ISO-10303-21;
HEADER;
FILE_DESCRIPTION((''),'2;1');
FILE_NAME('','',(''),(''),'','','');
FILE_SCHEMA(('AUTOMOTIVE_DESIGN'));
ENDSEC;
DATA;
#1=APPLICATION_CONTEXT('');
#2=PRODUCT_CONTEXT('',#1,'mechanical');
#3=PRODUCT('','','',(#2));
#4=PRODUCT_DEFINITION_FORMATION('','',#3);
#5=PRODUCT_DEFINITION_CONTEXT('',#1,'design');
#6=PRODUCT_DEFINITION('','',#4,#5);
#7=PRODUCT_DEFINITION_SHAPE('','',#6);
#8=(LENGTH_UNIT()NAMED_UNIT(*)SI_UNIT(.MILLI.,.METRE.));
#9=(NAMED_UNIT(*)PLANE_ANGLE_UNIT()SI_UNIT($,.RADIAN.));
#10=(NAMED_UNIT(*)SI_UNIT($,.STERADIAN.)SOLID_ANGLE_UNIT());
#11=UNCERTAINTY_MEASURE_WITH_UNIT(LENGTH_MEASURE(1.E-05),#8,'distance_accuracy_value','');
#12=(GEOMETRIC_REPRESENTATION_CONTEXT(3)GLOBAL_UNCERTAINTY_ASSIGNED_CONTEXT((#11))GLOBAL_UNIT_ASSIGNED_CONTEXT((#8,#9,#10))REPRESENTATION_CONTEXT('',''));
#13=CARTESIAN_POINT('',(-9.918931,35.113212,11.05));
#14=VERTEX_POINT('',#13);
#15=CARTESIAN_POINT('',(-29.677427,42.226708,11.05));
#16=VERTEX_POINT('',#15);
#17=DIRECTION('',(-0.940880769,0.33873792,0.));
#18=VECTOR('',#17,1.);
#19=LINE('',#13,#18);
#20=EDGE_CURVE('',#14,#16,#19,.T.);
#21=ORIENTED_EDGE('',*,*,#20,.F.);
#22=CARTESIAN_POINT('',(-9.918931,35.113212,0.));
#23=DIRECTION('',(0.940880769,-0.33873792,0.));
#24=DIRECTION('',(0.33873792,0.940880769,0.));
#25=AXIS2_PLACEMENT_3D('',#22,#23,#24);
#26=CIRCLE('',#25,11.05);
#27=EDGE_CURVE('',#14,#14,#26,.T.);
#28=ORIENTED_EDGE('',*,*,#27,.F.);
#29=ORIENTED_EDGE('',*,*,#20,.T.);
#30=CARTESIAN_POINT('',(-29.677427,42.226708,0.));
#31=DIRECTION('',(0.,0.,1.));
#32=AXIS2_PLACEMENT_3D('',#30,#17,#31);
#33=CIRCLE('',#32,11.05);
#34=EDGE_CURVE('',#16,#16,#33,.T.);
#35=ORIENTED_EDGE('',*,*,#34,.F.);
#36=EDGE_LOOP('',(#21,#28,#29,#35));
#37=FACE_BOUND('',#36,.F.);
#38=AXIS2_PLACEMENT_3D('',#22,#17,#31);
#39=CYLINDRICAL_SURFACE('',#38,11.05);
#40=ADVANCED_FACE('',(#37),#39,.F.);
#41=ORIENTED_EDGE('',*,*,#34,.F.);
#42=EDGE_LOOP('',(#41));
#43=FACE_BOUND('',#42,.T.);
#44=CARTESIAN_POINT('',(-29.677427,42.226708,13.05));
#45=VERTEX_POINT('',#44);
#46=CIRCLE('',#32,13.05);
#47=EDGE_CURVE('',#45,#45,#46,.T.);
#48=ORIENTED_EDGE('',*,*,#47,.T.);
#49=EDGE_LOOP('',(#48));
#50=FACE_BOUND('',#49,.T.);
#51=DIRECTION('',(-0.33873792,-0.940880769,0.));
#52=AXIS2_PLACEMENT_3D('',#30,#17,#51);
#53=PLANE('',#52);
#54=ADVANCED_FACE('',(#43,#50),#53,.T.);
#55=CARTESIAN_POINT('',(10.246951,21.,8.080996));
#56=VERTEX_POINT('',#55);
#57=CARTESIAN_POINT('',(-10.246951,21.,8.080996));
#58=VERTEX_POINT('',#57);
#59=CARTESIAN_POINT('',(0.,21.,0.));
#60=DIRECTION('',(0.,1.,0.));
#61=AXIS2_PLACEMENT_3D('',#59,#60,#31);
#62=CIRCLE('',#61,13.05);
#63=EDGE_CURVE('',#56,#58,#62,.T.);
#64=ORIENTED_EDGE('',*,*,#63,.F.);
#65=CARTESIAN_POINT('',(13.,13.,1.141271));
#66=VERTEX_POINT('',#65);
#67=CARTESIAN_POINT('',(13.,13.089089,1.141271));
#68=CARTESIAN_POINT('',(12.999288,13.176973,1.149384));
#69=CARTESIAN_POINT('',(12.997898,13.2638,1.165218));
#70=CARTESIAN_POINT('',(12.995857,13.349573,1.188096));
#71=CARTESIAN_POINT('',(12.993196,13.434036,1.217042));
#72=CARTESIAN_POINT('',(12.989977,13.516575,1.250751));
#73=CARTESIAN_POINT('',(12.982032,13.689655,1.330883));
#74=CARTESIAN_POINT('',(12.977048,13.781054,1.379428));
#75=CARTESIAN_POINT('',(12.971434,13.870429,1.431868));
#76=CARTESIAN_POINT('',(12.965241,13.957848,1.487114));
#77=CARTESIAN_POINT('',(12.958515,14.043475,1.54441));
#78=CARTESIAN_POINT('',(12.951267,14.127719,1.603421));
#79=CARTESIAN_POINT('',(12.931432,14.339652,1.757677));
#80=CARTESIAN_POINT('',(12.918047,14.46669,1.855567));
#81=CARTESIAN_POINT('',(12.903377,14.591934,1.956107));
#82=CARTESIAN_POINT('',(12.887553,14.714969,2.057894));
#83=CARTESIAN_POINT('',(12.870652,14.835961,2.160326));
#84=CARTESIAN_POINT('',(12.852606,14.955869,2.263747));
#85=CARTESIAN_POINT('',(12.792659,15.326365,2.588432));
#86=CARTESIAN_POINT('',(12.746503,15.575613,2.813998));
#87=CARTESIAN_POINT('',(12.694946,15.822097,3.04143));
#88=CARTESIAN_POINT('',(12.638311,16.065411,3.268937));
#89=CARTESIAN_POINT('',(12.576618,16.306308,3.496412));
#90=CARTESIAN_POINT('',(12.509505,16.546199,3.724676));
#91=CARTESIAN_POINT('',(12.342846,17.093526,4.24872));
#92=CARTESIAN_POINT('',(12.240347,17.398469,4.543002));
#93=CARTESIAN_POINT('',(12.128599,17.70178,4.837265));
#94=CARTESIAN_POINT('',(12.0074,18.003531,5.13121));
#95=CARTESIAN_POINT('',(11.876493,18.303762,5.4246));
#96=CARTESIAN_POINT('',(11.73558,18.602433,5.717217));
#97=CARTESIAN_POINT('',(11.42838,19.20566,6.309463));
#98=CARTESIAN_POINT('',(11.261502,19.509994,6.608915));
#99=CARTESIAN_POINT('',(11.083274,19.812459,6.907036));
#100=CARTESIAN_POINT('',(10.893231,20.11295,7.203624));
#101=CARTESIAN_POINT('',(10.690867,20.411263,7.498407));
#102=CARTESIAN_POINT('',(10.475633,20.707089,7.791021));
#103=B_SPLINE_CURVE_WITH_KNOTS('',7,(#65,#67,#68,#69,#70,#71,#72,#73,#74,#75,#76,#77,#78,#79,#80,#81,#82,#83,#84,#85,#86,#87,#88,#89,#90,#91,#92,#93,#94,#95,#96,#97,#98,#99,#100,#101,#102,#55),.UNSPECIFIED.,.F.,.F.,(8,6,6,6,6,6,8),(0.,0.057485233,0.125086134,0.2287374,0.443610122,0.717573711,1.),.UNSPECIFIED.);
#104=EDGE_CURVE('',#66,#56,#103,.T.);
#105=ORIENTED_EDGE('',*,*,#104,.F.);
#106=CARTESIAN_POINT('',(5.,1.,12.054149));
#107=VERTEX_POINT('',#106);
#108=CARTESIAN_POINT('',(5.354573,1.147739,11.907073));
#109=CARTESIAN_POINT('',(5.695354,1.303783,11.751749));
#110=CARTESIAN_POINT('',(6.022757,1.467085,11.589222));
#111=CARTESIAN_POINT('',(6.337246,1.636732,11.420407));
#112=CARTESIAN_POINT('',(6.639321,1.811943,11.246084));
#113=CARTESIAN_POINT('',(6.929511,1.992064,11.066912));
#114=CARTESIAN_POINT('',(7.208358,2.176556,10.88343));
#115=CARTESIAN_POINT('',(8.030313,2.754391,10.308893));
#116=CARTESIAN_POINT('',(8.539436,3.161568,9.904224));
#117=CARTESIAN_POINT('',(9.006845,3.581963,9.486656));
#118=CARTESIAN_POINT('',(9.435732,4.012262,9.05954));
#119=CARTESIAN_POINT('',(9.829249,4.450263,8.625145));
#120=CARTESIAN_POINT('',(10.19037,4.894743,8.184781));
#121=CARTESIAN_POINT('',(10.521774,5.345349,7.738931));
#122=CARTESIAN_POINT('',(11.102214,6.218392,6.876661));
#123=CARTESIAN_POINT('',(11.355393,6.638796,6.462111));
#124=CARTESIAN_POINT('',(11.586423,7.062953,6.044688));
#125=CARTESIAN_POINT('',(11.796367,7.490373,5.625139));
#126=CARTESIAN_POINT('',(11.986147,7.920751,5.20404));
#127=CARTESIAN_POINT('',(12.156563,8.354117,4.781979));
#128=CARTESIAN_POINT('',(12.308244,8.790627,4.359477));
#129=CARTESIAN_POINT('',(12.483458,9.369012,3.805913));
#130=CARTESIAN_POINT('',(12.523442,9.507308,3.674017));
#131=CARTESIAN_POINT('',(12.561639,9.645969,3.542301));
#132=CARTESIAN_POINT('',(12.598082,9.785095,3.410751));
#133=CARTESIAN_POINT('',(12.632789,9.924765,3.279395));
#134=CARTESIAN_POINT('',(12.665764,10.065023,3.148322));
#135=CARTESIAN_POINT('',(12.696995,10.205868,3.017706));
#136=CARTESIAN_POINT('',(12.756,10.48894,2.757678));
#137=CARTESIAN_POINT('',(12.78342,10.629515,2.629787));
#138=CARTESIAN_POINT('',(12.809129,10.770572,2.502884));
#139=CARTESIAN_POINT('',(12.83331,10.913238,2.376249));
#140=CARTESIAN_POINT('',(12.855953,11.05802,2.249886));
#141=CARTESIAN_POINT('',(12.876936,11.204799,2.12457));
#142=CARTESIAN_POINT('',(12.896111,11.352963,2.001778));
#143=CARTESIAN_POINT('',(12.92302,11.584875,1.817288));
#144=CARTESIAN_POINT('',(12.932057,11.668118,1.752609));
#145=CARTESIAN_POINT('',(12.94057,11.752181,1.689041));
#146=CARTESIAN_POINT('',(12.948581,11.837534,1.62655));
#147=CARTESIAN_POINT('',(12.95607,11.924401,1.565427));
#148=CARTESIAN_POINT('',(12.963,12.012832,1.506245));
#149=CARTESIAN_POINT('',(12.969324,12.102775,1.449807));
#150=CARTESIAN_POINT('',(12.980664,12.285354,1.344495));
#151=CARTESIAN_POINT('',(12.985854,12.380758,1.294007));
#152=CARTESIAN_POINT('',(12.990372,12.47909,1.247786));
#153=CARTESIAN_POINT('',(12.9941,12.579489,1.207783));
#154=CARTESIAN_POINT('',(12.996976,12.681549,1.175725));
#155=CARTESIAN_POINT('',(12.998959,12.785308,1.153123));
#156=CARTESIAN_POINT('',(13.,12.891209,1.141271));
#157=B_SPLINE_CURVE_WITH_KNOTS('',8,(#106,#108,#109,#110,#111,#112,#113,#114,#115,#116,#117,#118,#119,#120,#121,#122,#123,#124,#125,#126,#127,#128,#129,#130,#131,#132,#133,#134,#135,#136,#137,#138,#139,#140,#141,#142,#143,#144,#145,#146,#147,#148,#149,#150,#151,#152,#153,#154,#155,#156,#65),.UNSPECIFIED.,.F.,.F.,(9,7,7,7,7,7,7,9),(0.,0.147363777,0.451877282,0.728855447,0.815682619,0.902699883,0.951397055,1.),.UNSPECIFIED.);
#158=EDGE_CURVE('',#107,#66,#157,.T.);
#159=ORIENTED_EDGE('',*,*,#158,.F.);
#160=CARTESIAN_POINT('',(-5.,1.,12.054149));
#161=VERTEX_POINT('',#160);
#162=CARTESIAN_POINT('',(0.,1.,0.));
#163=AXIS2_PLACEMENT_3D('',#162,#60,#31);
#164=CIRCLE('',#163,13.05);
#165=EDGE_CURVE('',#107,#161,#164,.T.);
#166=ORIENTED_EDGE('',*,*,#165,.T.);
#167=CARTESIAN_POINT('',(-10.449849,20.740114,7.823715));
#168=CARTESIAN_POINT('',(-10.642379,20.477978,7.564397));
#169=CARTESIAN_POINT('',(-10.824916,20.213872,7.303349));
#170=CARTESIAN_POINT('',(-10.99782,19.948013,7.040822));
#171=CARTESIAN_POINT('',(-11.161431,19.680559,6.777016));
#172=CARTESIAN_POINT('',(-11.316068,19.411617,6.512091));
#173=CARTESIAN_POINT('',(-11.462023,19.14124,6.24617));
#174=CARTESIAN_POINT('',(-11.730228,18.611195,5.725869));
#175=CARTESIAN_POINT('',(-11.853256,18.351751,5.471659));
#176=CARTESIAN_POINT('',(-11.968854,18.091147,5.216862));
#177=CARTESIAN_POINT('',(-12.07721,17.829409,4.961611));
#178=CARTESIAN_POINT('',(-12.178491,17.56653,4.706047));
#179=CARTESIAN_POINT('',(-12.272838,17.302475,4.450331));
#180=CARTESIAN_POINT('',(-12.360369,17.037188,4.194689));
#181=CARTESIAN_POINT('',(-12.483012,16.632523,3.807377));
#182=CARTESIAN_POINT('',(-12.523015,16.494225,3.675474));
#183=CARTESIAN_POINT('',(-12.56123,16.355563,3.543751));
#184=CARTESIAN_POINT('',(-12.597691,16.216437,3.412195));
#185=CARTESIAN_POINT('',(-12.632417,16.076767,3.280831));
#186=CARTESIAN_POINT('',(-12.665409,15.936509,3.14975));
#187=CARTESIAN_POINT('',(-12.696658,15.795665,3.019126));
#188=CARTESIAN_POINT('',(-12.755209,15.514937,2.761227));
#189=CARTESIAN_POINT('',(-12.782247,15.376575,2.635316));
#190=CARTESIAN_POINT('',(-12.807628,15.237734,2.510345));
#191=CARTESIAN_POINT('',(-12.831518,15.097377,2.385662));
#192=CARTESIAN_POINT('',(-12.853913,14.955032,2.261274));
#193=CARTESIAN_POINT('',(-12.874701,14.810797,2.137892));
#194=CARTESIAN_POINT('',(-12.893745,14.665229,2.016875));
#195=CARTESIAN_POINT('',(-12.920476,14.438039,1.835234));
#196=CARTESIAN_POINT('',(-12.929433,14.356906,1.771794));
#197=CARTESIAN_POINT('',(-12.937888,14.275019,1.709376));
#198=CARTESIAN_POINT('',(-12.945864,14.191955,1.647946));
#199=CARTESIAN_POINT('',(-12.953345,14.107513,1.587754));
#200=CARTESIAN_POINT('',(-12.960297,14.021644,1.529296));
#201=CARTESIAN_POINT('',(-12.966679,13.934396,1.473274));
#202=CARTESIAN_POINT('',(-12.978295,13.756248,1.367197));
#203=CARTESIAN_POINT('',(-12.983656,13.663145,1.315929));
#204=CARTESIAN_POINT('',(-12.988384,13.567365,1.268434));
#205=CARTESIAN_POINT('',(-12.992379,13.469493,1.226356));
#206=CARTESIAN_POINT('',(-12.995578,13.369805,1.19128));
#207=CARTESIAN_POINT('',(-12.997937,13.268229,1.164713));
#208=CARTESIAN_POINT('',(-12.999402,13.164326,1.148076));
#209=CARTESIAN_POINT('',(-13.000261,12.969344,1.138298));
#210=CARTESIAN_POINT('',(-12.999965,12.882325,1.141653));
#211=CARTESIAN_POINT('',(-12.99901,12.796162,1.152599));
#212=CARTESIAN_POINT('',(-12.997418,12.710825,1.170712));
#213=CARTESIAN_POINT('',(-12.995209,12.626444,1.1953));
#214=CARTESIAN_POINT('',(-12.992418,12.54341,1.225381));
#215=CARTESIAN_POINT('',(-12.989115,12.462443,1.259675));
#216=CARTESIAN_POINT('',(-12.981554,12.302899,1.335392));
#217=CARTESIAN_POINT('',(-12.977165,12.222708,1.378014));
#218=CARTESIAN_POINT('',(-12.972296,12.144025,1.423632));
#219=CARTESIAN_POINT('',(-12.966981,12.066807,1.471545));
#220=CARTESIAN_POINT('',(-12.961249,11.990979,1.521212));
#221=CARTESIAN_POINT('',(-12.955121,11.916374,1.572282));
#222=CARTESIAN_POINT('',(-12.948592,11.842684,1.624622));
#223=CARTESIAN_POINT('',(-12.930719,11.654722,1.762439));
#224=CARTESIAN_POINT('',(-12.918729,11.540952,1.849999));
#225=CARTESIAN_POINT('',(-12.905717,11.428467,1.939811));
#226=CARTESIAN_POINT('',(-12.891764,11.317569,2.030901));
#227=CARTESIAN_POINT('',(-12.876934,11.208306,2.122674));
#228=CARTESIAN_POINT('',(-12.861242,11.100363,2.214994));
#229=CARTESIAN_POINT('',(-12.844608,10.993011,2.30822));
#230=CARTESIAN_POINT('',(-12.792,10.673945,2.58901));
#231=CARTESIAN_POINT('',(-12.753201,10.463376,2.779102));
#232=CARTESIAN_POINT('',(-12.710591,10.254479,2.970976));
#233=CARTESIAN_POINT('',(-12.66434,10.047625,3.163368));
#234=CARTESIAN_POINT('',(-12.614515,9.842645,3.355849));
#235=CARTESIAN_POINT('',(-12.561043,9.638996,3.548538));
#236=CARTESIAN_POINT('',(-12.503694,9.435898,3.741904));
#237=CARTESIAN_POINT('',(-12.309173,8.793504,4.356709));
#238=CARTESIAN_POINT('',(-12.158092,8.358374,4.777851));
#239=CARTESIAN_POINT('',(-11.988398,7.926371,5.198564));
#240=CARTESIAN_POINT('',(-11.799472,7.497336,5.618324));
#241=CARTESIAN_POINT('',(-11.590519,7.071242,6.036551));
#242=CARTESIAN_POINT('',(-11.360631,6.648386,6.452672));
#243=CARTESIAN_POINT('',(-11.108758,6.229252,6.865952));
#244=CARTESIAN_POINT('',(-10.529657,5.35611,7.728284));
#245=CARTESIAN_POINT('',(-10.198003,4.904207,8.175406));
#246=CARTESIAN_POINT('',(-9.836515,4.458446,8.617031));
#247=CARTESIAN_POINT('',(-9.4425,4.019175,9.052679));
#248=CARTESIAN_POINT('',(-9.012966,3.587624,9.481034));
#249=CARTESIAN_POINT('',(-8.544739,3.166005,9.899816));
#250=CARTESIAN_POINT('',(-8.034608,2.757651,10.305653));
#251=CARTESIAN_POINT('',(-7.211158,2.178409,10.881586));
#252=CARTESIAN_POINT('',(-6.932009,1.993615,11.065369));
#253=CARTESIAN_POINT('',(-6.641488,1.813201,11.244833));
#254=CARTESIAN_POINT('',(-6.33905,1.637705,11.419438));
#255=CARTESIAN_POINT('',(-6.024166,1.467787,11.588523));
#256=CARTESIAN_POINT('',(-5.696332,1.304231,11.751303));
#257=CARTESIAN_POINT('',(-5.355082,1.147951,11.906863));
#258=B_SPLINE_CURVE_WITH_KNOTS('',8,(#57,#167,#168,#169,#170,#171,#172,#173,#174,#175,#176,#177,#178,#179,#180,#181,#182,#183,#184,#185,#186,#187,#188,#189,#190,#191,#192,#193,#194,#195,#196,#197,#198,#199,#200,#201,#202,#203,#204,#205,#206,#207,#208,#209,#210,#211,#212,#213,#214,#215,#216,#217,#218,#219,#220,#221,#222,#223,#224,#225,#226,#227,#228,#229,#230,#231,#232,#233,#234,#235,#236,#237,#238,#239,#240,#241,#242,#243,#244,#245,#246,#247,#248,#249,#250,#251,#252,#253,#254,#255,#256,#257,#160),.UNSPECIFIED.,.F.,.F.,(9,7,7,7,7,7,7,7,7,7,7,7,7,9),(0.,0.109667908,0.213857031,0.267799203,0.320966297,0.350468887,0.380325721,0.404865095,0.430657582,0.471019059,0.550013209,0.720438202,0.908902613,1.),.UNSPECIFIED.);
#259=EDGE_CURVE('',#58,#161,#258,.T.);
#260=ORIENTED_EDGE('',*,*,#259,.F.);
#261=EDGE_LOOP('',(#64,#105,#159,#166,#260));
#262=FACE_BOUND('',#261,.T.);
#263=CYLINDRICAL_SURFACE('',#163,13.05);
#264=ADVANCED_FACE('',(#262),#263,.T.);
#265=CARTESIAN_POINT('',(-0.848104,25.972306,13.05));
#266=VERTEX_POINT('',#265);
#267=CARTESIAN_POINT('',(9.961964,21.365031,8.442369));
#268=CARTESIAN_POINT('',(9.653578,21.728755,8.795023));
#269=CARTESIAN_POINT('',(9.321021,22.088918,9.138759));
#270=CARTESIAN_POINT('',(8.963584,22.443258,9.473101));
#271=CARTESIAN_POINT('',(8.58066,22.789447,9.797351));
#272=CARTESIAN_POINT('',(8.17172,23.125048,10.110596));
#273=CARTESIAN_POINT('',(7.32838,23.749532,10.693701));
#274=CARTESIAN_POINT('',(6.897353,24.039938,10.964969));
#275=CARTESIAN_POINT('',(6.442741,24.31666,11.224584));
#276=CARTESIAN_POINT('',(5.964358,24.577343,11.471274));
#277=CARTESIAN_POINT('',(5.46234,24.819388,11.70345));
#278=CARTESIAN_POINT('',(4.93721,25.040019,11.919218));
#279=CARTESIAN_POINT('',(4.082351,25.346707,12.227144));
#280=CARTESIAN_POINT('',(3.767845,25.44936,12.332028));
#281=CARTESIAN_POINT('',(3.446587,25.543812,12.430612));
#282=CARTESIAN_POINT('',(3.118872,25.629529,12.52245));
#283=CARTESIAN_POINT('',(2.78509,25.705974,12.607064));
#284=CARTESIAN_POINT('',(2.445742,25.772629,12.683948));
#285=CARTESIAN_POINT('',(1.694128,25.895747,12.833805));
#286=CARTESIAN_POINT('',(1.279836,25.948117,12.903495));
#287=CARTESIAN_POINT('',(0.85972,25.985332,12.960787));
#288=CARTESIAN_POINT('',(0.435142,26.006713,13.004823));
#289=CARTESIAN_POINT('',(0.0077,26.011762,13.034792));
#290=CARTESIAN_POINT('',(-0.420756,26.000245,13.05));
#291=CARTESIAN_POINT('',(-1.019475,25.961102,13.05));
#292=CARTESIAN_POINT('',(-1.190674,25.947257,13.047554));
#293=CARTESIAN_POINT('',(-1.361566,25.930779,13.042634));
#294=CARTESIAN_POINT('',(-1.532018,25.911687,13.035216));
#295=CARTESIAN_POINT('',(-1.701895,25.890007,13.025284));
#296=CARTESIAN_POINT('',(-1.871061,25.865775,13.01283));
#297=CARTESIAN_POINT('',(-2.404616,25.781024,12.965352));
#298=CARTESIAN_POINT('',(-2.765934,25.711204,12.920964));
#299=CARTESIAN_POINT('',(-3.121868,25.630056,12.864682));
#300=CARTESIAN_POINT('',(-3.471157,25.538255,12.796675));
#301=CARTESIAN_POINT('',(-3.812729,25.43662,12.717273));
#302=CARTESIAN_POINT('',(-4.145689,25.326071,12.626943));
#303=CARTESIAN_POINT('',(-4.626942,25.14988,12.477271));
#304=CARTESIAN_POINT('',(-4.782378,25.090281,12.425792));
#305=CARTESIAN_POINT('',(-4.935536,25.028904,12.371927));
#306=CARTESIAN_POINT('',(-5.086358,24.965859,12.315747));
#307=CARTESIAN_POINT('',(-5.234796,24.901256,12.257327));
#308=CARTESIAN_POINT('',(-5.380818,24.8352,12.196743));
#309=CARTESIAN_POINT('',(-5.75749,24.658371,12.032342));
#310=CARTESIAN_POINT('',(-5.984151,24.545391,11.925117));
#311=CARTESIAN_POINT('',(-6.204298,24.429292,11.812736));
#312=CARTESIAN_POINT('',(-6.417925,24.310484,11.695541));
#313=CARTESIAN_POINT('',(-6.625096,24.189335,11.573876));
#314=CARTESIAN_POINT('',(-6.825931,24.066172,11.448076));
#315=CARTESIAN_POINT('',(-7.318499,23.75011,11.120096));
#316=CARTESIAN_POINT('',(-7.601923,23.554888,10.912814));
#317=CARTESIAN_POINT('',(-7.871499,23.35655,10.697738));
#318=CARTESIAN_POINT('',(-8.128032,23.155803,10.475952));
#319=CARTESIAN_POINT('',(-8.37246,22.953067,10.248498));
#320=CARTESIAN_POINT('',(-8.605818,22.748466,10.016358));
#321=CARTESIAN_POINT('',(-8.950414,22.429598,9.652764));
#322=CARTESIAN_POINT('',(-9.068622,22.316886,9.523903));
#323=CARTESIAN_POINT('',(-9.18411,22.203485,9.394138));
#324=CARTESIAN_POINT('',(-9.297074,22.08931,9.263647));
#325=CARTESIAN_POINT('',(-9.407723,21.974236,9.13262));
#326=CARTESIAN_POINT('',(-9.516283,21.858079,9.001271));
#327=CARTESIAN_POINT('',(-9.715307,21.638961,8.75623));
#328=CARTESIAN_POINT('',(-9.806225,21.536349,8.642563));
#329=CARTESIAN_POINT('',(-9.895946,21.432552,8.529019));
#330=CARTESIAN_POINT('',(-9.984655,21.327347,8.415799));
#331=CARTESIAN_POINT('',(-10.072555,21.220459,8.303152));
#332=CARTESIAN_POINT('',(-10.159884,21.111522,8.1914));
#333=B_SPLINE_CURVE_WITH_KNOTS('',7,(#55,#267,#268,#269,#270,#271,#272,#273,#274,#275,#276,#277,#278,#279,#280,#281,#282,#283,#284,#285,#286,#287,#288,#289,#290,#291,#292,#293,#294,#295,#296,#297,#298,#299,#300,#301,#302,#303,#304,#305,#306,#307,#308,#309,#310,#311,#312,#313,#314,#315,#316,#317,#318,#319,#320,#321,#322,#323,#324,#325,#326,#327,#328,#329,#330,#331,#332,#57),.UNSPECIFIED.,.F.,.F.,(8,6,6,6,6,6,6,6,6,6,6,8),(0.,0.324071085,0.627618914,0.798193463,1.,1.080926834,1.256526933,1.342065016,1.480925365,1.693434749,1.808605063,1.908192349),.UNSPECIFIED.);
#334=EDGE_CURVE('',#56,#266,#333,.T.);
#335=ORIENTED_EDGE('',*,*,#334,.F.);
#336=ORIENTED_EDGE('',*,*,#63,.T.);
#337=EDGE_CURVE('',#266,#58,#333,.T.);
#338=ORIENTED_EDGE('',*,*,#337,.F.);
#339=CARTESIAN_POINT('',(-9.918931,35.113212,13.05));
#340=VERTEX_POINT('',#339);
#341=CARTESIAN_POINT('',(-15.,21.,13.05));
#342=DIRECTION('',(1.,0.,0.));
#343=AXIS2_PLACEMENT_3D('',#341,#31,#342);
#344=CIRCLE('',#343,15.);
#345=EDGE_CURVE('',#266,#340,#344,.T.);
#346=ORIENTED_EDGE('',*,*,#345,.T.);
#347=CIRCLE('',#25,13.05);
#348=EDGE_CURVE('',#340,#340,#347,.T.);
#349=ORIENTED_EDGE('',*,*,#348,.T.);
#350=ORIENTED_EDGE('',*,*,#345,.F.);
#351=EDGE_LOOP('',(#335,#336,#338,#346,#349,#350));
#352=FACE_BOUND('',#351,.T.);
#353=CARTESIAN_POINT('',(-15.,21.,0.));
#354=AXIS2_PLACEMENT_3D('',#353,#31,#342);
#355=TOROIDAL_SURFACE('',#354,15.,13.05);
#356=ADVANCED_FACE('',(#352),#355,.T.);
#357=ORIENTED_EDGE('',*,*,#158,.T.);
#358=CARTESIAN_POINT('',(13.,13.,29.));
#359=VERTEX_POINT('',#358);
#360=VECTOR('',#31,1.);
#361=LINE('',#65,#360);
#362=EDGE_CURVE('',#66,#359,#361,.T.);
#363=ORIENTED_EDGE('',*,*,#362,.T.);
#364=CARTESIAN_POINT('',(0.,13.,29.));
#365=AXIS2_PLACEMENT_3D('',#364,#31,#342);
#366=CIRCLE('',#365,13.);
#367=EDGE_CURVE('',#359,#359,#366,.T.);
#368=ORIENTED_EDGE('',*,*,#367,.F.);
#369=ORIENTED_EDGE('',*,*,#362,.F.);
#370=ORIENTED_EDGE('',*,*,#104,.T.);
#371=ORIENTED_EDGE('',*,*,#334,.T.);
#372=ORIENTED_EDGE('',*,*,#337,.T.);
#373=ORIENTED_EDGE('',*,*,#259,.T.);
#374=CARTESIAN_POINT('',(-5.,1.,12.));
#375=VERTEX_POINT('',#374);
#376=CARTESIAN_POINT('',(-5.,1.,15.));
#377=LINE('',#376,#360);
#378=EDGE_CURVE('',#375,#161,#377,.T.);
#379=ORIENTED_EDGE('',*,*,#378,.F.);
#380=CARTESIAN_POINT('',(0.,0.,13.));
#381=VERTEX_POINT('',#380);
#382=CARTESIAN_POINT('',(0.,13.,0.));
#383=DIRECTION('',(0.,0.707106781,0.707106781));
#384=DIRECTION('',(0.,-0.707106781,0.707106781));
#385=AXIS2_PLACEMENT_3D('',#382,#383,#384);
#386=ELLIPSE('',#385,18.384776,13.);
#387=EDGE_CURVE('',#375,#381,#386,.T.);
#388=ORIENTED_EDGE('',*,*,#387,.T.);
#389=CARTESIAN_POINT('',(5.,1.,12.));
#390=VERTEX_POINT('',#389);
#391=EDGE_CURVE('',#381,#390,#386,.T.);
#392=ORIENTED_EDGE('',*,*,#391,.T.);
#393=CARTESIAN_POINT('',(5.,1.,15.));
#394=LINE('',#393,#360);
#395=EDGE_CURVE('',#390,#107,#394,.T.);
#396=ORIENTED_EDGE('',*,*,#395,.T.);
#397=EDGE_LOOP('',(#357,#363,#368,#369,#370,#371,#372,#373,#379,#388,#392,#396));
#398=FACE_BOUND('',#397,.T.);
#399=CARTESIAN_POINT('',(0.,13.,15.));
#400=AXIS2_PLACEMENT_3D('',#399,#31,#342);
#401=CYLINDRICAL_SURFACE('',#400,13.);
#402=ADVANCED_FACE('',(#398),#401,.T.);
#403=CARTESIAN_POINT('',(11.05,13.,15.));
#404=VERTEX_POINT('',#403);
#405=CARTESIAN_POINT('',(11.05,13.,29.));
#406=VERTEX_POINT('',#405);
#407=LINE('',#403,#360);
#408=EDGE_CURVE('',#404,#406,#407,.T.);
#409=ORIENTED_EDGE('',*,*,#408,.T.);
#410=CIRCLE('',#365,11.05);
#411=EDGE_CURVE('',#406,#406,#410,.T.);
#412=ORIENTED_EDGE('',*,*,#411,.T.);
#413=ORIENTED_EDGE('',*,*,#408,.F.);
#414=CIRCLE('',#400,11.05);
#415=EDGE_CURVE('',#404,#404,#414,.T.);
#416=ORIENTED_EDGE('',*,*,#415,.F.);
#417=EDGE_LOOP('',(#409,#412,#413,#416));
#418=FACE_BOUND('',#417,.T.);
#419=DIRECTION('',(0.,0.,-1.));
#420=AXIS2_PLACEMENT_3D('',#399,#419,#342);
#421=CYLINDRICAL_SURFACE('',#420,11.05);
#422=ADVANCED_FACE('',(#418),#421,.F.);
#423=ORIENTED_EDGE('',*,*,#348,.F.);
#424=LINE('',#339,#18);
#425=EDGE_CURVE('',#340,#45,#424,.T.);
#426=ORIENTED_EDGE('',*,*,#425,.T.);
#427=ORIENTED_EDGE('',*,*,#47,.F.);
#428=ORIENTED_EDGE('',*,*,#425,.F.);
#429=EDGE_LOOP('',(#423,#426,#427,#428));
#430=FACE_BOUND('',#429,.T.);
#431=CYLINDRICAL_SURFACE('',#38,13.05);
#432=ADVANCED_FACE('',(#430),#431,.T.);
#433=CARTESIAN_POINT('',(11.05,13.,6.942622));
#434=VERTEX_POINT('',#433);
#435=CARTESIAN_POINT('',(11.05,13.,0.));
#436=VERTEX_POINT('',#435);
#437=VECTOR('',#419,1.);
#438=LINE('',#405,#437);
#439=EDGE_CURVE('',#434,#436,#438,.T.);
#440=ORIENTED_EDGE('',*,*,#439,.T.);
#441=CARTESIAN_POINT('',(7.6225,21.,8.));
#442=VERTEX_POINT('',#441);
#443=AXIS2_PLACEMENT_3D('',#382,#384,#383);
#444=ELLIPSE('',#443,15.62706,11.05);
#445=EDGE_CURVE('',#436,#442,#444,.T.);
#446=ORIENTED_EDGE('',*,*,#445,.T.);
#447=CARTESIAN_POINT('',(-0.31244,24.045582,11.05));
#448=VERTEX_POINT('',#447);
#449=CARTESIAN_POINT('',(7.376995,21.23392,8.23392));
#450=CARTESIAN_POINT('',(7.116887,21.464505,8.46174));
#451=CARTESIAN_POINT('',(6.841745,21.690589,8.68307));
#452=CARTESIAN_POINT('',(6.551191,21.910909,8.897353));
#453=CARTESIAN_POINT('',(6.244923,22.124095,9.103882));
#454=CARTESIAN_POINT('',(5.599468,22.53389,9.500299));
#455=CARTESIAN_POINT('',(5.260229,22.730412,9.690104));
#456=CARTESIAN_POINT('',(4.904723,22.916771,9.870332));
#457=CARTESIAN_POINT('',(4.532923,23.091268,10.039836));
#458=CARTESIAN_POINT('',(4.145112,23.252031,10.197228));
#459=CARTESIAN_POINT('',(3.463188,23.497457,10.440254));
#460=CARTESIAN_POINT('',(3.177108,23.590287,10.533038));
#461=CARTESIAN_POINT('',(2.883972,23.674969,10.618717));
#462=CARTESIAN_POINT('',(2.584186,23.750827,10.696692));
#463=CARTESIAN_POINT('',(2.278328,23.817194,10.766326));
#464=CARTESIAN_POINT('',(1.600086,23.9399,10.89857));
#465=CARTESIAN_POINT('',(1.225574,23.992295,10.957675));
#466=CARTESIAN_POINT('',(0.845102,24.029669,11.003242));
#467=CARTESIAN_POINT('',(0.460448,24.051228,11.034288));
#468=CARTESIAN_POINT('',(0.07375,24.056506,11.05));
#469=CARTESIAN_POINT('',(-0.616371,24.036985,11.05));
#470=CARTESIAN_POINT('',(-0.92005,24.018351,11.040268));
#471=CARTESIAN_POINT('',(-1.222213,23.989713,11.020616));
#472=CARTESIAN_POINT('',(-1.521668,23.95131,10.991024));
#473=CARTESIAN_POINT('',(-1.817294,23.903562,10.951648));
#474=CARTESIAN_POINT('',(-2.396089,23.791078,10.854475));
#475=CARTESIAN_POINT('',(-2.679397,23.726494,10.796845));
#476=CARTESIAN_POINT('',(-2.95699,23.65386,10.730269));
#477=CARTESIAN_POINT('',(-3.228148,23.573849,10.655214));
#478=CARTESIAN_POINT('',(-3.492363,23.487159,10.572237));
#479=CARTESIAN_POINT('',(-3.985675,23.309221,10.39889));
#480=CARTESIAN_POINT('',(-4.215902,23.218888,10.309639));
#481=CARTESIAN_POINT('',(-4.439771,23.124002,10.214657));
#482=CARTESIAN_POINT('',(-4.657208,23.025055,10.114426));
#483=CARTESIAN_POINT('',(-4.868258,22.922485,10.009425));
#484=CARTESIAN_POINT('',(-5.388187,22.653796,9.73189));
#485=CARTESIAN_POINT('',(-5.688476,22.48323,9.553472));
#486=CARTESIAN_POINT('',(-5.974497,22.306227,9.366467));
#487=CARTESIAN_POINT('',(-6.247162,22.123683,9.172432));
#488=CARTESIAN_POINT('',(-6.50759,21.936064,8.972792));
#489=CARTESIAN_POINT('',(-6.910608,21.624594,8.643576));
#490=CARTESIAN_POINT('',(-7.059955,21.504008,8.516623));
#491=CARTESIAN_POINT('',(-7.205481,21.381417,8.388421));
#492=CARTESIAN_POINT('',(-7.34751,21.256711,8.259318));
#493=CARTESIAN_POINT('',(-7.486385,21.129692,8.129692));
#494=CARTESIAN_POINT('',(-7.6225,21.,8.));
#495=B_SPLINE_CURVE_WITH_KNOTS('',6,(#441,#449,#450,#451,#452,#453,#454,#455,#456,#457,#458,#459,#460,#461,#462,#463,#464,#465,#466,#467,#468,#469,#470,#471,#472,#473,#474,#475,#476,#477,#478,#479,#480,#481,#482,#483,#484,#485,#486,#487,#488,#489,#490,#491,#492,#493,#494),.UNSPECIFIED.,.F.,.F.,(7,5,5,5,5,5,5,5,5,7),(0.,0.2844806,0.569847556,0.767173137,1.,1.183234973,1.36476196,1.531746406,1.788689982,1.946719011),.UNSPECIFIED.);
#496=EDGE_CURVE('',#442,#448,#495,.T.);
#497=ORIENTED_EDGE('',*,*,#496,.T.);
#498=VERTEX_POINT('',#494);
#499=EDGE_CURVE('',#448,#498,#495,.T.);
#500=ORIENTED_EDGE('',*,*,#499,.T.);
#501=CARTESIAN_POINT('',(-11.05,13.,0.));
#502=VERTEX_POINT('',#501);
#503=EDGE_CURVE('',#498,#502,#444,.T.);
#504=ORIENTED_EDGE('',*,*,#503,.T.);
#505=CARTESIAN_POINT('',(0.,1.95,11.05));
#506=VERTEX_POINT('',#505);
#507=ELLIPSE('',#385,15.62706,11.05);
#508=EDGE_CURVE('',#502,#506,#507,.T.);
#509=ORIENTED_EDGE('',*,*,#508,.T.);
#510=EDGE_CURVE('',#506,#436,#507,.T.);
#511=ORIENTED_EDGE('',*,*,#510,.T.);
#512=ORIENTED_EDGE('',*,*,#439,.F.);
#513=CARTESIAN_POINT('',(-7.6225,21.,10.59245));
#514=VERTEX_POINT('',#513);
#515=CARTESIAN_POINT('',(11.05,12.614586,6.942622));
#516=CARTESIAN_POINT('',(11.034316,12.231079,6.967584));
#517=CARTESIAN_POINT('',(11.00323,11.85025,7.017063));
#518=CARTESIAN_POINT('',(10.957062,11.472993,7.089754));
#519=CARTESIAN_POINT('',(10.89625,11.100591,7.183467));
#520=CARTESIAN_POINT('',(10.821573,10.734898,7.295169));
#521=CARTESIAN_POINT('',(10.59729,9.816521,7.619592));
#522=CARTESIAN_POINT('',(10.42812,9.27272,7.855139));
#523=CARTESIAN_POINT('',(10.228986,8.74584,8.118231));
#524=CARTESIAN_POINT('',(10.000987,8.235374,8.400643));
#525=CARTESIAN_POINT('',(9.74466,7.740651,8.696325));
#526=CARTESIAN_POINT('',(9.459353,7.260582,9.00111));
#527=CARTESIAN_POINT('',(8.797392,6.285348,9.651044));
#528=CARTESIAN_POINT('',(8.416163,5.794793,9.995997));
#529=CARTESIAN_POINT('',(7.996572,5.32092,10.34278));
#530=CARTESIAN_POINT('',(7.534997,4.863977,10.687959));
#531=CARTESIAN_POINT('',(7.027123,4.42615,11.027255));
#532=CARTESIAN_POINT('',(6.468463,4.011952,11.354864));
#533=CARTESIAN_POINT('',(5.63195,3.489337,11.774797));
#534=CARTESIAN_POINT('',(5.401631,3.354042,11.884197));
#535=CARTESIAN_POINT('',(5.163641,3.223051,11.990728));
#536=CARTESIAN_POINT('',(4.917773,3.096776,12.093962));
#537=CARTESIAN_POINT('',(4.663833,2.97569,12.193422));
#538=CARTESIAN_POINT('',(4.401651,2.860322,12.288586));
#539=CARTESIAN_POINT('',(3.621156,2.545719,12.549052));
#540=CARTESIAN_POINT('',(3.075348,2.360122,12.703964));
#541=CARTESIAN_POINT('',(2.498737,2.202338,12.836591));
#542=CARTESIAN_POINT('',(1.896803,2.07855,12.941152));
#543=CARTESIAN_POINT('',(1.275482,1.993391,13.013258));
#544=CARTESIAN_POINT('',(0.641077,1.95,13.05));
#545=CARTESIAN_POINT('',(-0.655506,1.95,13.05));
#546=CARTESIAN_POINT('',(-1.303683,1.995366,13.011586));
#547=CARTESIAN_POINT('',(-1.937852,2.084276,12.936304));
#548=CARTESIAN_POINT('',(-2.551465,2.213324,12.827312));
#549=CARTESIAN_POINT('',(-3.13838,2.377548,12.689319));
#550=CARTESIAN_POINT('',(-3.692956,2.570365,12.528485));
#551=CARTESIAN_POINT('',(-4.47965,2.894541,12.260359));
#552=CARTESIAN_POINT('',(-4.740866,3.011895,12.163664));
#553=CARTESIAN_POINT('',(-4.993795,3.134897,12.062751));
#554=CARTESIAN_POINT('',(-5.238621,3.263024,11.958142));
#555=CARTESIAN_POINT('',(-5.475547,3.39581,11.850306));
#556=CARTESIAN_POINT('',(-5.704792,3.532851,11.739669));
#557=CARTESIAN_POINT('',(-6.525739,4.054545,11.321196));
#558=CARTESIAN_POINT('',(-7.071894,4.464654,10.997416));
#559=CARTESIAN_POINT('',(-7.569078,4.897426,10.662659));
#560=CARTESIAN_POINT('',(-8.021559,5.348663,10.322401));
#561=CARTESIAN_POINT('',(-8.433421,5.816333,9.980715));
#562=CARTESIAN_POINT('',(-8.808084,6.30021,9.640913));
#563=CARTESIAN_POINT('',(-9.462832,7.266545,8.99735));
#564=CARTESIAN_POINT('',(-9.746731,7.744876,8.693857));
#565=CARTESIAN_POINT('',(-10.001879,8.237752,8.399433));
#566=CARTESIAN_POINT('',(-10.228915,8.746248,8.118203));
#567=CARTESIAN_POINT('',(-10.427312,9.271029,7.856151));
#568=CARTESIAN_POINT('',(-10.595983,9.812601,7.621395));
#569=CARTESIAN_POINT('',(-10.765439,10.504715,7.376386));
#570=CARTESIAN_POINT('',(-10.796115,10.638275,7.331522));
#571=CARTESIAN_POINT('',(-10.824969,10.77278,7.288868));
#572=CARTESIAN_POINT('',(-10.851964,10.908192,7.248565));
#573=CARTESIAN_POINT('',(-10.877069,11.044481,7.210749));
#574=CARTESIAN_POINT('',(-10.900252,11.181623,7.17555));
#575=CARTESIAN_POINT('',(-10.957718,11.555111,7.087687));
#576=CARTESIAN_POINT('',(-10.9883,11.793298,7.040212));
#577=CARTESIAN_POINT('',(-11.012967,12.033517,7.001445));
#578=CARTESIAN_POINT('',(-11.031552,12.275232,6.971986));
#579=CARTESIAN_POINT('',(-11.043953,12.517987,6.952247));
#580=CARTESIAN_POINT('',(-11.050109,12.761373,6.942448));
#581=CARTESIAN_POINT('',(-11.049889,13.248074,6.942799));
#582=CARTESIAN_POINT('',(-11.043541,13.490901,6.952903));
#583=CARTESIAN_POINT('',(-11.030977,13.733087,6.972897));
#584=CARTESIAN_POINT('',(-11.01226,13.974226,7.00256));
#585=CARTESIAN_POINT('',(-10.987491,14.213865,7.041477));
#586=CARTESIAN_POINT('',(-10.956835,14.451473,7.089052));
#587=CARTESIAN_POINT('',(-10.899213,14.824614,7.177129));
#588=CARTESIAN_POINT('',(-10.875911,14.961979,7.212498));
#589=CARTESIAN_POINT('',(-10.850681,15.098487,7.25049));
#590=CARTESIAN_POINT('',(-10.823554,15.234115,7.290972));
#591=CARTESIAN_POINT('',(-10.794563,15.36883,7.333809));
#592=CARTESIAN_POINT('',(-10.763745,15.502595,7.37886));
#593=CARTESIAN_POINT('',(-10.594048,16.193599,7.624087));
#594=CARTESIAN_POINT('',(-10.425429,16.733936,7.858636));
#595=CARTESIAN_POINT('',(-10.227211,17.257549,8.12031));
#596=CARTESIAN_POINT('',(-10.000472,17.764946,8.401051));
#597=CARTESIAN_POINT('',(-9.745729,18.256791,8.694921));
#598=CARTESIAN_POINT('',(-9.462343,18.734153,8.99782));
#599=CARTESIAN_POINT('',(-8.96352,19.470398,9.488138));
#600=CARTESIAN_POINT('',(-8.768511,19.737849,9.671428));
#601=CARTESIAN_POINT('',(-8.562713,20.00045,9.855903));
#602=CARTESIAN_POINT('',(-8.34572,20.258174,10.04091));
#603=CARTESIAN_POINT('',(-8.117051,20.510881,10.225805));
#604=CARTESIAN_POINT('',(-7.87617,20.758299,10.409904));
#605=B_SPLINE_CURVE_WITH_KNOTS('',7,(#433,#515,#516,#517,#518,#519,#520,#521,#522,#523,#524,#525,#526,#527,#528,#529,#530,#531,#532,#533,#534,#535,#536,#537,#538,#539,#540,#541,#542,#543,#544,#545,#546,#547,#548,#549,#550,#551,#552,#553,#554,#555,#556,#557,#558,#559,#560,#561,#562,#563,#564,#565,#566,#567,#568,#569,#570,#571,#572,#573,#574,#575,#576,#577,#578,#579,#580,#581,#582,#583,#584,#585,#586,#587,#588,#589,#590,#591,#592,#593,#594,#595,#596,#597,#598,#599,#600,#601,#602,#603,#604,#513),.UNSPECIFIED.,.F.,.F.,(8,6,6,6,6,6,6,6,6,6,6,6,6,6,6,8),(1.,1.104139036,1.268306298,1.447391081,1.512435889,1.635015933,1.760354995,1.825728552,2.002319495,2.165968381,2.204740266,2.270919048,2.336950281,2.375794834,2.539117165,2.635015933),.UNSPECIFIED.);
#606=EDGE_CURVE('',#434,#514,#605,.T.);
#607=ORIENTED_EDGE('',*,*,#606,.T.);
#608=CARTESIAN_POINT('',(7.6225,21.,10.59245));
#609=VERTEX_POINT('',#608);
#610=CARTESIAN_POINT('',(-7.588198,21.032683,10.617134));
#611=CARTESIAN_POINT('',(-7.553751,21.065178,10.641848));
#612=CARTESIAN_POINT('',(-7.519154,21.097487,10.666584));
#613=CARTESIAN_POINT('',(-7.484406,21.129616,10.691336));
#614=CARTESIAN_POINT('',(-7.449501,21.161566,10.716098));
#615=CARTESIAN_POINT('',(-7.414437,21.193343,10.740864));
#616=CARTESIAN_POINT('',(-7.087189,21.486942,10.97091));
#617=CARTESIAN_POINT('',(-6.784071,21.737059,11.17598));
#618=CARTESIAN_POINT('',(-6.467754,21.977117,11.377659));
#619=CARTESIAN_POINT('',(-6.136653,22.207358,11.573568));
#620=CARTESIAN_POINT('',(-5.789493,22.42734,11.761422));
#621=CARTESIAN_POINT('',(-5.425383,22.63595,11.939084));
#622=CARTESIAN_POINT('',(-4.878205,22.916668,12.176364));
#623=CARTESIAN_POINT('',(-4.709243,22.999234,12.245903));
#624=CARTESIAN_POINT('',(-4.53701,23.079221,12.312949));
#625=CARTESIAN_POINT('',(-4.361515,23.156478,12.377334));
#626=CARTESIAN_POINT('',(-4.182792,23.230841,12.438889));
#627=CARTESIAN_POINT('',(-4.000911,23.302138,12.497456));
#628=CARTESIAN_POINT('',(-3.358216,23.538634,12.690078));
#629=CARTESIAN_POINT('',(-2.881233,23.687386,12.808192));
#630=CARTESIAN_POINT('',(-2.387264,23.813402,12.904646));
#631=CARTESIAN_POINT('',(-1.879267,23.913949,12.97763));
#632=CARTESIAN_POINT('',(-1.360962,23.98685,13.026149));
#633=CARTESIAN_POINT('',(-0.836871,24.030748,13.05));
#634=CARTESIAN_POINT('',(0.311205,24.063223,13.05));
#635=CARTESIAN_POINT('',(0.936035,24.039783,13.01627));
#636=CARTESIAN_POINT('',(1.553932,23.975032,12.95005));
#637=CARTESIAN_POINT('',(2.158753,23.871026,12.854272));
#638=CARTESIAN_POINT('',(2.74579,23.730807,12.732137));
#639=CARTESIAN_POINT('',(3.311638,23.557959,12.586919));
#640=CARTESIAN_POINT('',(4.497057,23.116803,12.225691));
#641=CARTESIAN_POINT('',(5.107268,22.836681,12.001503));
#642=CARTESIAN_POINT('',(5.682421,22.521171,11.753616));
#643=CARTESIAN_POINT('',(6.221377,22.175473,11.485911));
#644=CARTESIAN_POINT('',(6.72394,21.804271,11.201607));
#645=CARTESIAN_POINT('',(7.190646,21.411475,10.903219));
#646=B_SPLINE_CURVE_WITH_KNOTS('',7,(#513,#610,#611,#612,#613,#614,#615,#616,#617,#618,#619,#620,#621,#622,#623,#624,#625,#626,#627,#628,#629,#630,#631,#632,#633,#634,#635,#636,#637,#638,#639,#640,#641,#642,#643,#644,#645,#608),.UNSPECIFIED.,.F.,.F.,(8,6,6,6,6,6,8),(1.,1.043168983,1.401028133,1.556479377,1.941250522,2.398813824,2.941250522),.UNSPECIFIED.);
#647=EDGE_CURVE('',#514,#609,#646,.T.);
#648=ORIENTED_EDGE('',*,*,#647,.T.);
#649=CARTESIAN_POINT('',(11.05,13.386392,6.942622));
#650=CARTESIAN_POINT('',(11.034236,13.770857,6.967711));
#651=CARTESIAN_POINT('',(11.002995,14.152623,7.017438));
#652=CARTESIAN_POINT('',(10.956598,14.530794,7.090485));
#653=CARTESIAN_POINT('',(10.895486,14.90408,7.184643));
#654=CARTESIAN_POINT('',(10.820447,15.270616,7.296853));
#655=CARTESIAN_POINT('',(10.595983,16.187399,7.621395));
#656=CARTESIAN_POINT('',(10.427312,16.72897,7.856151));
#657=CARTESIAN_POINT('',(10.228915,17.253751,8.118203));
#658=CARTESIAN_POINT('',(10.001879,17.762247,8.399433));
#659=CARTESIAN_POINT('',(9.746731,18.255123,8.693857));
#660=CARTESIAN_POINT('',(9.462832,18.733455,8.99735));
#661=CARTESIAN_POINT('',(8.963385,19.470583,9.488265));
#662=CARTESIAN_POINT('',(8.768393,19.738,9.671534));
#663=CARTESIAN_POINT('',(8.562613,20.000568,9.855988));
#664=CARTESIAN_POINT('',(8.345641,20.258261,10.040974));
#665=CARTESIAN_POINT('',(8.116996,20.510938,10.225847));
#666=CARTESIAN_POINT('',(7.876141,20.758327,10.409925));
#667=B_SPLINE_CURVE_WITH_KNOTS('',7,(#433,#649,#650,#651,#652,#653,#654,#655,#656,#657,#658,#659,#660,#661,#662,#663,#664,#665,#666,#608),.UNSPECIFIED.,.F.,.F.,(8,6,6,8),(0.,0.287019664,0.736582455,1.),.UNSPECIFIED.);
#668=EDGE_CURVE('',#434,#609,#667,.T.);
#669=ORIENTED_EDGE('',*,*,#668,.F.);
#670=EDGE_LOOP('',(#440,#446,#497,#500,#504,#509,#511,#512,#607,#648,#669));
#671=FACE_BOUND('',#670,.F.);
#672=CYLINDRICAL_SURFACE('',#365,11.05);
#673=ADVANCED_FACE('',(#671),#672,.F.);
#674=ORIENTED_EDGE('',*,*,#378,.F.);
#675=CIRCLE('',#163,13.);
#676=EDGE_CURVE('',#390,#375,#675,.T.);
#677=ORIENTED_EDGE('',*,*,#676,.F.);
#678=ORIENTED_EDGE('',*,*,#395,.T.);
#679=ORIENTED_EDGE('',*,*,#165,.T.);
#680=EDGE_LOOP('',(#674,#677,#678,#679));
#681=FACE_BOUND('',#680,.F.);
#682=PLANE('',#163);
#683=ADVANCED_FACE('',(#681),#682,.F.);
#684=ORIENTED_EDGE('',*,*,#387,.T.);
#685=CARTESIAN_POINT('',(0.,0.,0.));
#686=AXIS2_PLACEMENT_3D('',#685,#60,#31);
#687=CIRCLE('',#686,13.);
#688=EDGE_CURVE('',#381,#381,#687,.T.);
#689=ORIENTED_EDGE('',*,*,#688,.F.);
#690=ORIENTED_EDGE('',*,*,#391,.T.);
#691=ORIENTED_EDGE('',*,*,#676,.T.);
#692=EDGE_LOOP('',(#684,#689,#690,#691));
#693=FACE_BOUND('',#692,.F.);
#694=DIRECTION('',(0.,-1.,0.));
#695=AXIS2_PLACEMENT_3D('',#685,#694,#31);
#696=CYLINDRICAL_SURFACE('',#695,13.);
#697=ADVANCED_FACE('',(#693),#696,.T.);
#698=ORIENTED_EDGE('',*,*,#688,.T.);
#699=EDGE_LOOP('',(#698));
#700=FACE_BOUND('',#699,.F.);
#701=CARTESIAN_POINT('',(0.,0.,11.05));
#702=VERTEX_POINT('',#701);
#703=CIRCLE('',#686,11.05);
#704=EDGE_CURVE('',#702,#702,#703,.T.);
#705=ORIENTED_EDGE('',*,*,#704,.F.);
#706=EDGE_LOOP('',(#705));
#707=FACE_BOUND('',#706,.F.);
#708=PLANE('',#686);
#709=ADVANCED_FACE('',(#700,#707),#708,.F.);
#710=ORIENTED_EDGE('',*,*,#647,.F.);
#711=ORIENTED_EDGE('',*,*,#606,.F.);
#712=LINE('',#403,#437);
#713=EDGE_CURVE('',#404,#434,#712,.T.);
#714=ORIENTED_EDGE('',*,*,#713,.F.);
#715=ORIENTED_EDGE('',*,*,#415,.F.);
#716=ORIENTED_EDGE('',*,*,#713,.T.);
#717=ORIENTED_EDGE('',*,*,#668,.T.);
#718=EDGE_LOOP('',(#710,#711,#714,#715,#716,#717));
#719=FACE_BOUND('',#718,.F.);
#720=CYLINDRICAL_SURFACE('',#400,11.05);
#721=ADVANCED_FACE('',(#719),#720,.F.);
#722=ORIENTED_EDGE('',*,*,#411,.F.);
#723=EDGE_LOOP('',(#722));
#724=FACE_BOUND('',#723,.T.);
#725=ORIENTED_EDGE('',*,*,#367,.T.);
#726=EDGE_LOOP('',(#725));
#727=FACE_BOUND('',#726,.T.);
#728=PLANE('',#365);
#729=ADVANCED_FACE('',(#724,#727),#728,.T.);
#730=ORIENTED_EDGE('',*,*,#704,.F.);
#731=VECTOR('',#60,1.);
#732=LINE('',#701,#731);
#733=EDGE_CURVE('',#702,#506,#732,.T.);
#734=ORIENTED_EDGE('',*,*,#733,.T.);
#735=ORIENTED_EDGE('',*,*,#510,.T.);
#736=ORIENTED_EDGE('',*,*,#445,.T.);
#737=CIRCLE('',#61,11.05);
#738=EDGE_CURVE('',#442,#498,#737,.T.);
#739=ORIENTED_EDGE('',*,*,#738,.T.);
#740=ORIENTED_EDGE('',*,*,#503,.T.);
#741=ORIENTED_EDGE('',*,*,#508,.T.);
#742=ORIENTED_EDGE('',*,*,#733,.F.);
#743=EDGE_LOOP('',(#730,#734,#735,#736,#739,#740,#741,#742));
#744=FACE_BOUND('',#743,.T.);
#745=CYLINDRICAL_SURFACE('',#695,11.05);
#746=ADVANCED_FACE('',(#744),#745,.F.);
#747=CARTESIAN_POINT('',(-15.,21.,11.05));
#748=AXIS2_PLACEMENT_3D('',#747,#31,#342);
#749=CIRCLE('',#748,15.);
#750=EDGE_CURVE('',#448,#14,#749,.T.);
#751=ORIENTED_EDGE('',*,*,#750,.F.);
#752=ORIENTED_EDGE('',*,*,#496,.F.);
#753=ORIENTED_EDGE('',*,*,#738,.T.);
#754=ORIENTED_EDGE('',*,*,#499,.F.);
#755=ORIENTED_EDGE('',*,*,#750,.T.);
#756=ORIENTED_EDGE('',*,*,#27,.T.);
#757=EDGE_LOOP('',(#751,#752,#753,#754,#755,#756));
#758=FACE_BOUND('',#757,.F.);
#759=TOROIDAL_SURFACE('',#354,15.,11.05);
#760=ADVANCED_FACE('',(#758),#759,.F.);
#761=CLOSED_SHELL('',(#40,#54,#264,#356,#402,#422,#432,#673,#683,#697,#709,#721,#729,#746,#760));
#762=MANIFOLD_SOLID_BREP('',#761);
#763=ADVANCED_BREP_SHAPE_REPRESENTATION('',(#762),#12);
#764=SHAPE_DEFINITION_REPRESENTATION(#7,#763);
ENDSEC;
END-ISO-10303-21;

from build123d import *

# Parameters (mm, degrees)
CROQUIS1_R                          = 13
CROQUIS1_R_2                        = 11.05
SALIENTE_EXTRUIR1_DEPTH             = 1
BARRER_L_MINA1_PROFILE_R            = 13.05
BARRER_L_MINA1_PROFILE_R_2          = 11.05
CROQUIS19_R                         = 13
CROQUIS19_R_2                       = 11.05
SALIENTE_EXTRUIR2_DEPTH             = 14
SALIENTE_EXTRUIR2_DIRECTION_2_REACH = 72.145
CORTAR_EXTRUIR1_REACH               = 78.822
CROQUIS20_R                         = 11.05


with BuildPart() as part:
    # Croquis1 → Saliente-Extruir1 (new body)
    with BuildSketch(Plane(origin=(0, 0, 0), x_dir=(1, 0, 0), z_dir=(0, 1, 0))):
        with Locations(Location((0, 0, 0), (0, 0, 270))):
            Circle(CROQUIS1_R)
        with Locations(Location((0, 0, 0), (0, 0, 270))):
            Circle(CROQUIS1_R_2, mode=Mode.SUBTRACT)
    extrude(amount=SALIENTE_EXTRUIR1_DEPTH)

    # Barrer-L_mina1: sweep along a path in Croquis2
    with BuildLine(Plane.XY) as barrer_l_mina1_path:
        Line((0, 1), (0, 21))
        ThreePointArc((0, 21), (-2.727754239, 29.625078781), (-9.918931196, 35.113211534))
        Line((-9.918931196, 35.113211534), (-29.677427344, 42.226707859))
    # Barrer-L_mina1 profile (on start of the path) → Barrer-L_mina1 (sweep)
    with BuildSketch(Plane.ZX.offset(1)):
        Circle(BARRER_L_MINA1_PROFILE_R)
        Circle(BARRER_L_MINA1_PROFILE_R_2, mode=Mode.SUBTRACT)
    sweep(path=barrer_l_mina1_path.line)

    # Croquis19 → Saliente-Extruir2 (add)
    with BuildSketch(Plane.XY.offset(15)):
        with Locations((0, 13)):
            Circle(CROQUIS19_R)
        with Locations((0, 13)):
            Circle(CROQUIS19_R_2, mode=Mode.SUBTRACT)
    extrude(amount=SALIENTE_EXTRUIR2_DEPTH)

    # Croquis19 → Saliente-Extruir2 direction 2 (add, up to next)
    with BuildSketch(Plane.XY.offset(15), mode=Mode.PRIVATE) as saliente_extruir2_direction_2_sk1:
        with Locations((0, 13)):
            Circle(CROQUIS19_R)
        with Locations((0, 13)):
            Circle(CROQUIS19_R_2, mode=Mode.SUBTRACT)
    saliente_extruir2_direction_2_tool1 = extrude(saliente_extruir2_direction_2_sk1.sketch, amount=-SALIENTE_EXTRUIR2_DIRECTION_2_REACH, mode=Mode.PRIVATE) - part.part
    add(saliente_extruir2_direction_2_tool1.solids().sort_by_distance((-12.632304, 13, 15))[0])

    # Croquis20 → Cortar-Extruir1 (cut, up to next)
    with BuildSketch(Plane.XY.offset(29), mode=Mode.PRIVATE) as cortar_extruir1_sk1:
        with Locations((0, 13)):
            Circle(CROQUIS20_R)
    cortar_extruir1_tool1 = extrude(cortar_extruir1_sk1.sketch, amount=-CORTAR_EXTRUIR1_REACH, mode=Mode.PRIVATE) & part.part
    add(cortar_extruir1_tool1.solids().sort_by_distance((0, 13, 29))[0], mode=Mode.SUBTRACT)


solid = part.part
